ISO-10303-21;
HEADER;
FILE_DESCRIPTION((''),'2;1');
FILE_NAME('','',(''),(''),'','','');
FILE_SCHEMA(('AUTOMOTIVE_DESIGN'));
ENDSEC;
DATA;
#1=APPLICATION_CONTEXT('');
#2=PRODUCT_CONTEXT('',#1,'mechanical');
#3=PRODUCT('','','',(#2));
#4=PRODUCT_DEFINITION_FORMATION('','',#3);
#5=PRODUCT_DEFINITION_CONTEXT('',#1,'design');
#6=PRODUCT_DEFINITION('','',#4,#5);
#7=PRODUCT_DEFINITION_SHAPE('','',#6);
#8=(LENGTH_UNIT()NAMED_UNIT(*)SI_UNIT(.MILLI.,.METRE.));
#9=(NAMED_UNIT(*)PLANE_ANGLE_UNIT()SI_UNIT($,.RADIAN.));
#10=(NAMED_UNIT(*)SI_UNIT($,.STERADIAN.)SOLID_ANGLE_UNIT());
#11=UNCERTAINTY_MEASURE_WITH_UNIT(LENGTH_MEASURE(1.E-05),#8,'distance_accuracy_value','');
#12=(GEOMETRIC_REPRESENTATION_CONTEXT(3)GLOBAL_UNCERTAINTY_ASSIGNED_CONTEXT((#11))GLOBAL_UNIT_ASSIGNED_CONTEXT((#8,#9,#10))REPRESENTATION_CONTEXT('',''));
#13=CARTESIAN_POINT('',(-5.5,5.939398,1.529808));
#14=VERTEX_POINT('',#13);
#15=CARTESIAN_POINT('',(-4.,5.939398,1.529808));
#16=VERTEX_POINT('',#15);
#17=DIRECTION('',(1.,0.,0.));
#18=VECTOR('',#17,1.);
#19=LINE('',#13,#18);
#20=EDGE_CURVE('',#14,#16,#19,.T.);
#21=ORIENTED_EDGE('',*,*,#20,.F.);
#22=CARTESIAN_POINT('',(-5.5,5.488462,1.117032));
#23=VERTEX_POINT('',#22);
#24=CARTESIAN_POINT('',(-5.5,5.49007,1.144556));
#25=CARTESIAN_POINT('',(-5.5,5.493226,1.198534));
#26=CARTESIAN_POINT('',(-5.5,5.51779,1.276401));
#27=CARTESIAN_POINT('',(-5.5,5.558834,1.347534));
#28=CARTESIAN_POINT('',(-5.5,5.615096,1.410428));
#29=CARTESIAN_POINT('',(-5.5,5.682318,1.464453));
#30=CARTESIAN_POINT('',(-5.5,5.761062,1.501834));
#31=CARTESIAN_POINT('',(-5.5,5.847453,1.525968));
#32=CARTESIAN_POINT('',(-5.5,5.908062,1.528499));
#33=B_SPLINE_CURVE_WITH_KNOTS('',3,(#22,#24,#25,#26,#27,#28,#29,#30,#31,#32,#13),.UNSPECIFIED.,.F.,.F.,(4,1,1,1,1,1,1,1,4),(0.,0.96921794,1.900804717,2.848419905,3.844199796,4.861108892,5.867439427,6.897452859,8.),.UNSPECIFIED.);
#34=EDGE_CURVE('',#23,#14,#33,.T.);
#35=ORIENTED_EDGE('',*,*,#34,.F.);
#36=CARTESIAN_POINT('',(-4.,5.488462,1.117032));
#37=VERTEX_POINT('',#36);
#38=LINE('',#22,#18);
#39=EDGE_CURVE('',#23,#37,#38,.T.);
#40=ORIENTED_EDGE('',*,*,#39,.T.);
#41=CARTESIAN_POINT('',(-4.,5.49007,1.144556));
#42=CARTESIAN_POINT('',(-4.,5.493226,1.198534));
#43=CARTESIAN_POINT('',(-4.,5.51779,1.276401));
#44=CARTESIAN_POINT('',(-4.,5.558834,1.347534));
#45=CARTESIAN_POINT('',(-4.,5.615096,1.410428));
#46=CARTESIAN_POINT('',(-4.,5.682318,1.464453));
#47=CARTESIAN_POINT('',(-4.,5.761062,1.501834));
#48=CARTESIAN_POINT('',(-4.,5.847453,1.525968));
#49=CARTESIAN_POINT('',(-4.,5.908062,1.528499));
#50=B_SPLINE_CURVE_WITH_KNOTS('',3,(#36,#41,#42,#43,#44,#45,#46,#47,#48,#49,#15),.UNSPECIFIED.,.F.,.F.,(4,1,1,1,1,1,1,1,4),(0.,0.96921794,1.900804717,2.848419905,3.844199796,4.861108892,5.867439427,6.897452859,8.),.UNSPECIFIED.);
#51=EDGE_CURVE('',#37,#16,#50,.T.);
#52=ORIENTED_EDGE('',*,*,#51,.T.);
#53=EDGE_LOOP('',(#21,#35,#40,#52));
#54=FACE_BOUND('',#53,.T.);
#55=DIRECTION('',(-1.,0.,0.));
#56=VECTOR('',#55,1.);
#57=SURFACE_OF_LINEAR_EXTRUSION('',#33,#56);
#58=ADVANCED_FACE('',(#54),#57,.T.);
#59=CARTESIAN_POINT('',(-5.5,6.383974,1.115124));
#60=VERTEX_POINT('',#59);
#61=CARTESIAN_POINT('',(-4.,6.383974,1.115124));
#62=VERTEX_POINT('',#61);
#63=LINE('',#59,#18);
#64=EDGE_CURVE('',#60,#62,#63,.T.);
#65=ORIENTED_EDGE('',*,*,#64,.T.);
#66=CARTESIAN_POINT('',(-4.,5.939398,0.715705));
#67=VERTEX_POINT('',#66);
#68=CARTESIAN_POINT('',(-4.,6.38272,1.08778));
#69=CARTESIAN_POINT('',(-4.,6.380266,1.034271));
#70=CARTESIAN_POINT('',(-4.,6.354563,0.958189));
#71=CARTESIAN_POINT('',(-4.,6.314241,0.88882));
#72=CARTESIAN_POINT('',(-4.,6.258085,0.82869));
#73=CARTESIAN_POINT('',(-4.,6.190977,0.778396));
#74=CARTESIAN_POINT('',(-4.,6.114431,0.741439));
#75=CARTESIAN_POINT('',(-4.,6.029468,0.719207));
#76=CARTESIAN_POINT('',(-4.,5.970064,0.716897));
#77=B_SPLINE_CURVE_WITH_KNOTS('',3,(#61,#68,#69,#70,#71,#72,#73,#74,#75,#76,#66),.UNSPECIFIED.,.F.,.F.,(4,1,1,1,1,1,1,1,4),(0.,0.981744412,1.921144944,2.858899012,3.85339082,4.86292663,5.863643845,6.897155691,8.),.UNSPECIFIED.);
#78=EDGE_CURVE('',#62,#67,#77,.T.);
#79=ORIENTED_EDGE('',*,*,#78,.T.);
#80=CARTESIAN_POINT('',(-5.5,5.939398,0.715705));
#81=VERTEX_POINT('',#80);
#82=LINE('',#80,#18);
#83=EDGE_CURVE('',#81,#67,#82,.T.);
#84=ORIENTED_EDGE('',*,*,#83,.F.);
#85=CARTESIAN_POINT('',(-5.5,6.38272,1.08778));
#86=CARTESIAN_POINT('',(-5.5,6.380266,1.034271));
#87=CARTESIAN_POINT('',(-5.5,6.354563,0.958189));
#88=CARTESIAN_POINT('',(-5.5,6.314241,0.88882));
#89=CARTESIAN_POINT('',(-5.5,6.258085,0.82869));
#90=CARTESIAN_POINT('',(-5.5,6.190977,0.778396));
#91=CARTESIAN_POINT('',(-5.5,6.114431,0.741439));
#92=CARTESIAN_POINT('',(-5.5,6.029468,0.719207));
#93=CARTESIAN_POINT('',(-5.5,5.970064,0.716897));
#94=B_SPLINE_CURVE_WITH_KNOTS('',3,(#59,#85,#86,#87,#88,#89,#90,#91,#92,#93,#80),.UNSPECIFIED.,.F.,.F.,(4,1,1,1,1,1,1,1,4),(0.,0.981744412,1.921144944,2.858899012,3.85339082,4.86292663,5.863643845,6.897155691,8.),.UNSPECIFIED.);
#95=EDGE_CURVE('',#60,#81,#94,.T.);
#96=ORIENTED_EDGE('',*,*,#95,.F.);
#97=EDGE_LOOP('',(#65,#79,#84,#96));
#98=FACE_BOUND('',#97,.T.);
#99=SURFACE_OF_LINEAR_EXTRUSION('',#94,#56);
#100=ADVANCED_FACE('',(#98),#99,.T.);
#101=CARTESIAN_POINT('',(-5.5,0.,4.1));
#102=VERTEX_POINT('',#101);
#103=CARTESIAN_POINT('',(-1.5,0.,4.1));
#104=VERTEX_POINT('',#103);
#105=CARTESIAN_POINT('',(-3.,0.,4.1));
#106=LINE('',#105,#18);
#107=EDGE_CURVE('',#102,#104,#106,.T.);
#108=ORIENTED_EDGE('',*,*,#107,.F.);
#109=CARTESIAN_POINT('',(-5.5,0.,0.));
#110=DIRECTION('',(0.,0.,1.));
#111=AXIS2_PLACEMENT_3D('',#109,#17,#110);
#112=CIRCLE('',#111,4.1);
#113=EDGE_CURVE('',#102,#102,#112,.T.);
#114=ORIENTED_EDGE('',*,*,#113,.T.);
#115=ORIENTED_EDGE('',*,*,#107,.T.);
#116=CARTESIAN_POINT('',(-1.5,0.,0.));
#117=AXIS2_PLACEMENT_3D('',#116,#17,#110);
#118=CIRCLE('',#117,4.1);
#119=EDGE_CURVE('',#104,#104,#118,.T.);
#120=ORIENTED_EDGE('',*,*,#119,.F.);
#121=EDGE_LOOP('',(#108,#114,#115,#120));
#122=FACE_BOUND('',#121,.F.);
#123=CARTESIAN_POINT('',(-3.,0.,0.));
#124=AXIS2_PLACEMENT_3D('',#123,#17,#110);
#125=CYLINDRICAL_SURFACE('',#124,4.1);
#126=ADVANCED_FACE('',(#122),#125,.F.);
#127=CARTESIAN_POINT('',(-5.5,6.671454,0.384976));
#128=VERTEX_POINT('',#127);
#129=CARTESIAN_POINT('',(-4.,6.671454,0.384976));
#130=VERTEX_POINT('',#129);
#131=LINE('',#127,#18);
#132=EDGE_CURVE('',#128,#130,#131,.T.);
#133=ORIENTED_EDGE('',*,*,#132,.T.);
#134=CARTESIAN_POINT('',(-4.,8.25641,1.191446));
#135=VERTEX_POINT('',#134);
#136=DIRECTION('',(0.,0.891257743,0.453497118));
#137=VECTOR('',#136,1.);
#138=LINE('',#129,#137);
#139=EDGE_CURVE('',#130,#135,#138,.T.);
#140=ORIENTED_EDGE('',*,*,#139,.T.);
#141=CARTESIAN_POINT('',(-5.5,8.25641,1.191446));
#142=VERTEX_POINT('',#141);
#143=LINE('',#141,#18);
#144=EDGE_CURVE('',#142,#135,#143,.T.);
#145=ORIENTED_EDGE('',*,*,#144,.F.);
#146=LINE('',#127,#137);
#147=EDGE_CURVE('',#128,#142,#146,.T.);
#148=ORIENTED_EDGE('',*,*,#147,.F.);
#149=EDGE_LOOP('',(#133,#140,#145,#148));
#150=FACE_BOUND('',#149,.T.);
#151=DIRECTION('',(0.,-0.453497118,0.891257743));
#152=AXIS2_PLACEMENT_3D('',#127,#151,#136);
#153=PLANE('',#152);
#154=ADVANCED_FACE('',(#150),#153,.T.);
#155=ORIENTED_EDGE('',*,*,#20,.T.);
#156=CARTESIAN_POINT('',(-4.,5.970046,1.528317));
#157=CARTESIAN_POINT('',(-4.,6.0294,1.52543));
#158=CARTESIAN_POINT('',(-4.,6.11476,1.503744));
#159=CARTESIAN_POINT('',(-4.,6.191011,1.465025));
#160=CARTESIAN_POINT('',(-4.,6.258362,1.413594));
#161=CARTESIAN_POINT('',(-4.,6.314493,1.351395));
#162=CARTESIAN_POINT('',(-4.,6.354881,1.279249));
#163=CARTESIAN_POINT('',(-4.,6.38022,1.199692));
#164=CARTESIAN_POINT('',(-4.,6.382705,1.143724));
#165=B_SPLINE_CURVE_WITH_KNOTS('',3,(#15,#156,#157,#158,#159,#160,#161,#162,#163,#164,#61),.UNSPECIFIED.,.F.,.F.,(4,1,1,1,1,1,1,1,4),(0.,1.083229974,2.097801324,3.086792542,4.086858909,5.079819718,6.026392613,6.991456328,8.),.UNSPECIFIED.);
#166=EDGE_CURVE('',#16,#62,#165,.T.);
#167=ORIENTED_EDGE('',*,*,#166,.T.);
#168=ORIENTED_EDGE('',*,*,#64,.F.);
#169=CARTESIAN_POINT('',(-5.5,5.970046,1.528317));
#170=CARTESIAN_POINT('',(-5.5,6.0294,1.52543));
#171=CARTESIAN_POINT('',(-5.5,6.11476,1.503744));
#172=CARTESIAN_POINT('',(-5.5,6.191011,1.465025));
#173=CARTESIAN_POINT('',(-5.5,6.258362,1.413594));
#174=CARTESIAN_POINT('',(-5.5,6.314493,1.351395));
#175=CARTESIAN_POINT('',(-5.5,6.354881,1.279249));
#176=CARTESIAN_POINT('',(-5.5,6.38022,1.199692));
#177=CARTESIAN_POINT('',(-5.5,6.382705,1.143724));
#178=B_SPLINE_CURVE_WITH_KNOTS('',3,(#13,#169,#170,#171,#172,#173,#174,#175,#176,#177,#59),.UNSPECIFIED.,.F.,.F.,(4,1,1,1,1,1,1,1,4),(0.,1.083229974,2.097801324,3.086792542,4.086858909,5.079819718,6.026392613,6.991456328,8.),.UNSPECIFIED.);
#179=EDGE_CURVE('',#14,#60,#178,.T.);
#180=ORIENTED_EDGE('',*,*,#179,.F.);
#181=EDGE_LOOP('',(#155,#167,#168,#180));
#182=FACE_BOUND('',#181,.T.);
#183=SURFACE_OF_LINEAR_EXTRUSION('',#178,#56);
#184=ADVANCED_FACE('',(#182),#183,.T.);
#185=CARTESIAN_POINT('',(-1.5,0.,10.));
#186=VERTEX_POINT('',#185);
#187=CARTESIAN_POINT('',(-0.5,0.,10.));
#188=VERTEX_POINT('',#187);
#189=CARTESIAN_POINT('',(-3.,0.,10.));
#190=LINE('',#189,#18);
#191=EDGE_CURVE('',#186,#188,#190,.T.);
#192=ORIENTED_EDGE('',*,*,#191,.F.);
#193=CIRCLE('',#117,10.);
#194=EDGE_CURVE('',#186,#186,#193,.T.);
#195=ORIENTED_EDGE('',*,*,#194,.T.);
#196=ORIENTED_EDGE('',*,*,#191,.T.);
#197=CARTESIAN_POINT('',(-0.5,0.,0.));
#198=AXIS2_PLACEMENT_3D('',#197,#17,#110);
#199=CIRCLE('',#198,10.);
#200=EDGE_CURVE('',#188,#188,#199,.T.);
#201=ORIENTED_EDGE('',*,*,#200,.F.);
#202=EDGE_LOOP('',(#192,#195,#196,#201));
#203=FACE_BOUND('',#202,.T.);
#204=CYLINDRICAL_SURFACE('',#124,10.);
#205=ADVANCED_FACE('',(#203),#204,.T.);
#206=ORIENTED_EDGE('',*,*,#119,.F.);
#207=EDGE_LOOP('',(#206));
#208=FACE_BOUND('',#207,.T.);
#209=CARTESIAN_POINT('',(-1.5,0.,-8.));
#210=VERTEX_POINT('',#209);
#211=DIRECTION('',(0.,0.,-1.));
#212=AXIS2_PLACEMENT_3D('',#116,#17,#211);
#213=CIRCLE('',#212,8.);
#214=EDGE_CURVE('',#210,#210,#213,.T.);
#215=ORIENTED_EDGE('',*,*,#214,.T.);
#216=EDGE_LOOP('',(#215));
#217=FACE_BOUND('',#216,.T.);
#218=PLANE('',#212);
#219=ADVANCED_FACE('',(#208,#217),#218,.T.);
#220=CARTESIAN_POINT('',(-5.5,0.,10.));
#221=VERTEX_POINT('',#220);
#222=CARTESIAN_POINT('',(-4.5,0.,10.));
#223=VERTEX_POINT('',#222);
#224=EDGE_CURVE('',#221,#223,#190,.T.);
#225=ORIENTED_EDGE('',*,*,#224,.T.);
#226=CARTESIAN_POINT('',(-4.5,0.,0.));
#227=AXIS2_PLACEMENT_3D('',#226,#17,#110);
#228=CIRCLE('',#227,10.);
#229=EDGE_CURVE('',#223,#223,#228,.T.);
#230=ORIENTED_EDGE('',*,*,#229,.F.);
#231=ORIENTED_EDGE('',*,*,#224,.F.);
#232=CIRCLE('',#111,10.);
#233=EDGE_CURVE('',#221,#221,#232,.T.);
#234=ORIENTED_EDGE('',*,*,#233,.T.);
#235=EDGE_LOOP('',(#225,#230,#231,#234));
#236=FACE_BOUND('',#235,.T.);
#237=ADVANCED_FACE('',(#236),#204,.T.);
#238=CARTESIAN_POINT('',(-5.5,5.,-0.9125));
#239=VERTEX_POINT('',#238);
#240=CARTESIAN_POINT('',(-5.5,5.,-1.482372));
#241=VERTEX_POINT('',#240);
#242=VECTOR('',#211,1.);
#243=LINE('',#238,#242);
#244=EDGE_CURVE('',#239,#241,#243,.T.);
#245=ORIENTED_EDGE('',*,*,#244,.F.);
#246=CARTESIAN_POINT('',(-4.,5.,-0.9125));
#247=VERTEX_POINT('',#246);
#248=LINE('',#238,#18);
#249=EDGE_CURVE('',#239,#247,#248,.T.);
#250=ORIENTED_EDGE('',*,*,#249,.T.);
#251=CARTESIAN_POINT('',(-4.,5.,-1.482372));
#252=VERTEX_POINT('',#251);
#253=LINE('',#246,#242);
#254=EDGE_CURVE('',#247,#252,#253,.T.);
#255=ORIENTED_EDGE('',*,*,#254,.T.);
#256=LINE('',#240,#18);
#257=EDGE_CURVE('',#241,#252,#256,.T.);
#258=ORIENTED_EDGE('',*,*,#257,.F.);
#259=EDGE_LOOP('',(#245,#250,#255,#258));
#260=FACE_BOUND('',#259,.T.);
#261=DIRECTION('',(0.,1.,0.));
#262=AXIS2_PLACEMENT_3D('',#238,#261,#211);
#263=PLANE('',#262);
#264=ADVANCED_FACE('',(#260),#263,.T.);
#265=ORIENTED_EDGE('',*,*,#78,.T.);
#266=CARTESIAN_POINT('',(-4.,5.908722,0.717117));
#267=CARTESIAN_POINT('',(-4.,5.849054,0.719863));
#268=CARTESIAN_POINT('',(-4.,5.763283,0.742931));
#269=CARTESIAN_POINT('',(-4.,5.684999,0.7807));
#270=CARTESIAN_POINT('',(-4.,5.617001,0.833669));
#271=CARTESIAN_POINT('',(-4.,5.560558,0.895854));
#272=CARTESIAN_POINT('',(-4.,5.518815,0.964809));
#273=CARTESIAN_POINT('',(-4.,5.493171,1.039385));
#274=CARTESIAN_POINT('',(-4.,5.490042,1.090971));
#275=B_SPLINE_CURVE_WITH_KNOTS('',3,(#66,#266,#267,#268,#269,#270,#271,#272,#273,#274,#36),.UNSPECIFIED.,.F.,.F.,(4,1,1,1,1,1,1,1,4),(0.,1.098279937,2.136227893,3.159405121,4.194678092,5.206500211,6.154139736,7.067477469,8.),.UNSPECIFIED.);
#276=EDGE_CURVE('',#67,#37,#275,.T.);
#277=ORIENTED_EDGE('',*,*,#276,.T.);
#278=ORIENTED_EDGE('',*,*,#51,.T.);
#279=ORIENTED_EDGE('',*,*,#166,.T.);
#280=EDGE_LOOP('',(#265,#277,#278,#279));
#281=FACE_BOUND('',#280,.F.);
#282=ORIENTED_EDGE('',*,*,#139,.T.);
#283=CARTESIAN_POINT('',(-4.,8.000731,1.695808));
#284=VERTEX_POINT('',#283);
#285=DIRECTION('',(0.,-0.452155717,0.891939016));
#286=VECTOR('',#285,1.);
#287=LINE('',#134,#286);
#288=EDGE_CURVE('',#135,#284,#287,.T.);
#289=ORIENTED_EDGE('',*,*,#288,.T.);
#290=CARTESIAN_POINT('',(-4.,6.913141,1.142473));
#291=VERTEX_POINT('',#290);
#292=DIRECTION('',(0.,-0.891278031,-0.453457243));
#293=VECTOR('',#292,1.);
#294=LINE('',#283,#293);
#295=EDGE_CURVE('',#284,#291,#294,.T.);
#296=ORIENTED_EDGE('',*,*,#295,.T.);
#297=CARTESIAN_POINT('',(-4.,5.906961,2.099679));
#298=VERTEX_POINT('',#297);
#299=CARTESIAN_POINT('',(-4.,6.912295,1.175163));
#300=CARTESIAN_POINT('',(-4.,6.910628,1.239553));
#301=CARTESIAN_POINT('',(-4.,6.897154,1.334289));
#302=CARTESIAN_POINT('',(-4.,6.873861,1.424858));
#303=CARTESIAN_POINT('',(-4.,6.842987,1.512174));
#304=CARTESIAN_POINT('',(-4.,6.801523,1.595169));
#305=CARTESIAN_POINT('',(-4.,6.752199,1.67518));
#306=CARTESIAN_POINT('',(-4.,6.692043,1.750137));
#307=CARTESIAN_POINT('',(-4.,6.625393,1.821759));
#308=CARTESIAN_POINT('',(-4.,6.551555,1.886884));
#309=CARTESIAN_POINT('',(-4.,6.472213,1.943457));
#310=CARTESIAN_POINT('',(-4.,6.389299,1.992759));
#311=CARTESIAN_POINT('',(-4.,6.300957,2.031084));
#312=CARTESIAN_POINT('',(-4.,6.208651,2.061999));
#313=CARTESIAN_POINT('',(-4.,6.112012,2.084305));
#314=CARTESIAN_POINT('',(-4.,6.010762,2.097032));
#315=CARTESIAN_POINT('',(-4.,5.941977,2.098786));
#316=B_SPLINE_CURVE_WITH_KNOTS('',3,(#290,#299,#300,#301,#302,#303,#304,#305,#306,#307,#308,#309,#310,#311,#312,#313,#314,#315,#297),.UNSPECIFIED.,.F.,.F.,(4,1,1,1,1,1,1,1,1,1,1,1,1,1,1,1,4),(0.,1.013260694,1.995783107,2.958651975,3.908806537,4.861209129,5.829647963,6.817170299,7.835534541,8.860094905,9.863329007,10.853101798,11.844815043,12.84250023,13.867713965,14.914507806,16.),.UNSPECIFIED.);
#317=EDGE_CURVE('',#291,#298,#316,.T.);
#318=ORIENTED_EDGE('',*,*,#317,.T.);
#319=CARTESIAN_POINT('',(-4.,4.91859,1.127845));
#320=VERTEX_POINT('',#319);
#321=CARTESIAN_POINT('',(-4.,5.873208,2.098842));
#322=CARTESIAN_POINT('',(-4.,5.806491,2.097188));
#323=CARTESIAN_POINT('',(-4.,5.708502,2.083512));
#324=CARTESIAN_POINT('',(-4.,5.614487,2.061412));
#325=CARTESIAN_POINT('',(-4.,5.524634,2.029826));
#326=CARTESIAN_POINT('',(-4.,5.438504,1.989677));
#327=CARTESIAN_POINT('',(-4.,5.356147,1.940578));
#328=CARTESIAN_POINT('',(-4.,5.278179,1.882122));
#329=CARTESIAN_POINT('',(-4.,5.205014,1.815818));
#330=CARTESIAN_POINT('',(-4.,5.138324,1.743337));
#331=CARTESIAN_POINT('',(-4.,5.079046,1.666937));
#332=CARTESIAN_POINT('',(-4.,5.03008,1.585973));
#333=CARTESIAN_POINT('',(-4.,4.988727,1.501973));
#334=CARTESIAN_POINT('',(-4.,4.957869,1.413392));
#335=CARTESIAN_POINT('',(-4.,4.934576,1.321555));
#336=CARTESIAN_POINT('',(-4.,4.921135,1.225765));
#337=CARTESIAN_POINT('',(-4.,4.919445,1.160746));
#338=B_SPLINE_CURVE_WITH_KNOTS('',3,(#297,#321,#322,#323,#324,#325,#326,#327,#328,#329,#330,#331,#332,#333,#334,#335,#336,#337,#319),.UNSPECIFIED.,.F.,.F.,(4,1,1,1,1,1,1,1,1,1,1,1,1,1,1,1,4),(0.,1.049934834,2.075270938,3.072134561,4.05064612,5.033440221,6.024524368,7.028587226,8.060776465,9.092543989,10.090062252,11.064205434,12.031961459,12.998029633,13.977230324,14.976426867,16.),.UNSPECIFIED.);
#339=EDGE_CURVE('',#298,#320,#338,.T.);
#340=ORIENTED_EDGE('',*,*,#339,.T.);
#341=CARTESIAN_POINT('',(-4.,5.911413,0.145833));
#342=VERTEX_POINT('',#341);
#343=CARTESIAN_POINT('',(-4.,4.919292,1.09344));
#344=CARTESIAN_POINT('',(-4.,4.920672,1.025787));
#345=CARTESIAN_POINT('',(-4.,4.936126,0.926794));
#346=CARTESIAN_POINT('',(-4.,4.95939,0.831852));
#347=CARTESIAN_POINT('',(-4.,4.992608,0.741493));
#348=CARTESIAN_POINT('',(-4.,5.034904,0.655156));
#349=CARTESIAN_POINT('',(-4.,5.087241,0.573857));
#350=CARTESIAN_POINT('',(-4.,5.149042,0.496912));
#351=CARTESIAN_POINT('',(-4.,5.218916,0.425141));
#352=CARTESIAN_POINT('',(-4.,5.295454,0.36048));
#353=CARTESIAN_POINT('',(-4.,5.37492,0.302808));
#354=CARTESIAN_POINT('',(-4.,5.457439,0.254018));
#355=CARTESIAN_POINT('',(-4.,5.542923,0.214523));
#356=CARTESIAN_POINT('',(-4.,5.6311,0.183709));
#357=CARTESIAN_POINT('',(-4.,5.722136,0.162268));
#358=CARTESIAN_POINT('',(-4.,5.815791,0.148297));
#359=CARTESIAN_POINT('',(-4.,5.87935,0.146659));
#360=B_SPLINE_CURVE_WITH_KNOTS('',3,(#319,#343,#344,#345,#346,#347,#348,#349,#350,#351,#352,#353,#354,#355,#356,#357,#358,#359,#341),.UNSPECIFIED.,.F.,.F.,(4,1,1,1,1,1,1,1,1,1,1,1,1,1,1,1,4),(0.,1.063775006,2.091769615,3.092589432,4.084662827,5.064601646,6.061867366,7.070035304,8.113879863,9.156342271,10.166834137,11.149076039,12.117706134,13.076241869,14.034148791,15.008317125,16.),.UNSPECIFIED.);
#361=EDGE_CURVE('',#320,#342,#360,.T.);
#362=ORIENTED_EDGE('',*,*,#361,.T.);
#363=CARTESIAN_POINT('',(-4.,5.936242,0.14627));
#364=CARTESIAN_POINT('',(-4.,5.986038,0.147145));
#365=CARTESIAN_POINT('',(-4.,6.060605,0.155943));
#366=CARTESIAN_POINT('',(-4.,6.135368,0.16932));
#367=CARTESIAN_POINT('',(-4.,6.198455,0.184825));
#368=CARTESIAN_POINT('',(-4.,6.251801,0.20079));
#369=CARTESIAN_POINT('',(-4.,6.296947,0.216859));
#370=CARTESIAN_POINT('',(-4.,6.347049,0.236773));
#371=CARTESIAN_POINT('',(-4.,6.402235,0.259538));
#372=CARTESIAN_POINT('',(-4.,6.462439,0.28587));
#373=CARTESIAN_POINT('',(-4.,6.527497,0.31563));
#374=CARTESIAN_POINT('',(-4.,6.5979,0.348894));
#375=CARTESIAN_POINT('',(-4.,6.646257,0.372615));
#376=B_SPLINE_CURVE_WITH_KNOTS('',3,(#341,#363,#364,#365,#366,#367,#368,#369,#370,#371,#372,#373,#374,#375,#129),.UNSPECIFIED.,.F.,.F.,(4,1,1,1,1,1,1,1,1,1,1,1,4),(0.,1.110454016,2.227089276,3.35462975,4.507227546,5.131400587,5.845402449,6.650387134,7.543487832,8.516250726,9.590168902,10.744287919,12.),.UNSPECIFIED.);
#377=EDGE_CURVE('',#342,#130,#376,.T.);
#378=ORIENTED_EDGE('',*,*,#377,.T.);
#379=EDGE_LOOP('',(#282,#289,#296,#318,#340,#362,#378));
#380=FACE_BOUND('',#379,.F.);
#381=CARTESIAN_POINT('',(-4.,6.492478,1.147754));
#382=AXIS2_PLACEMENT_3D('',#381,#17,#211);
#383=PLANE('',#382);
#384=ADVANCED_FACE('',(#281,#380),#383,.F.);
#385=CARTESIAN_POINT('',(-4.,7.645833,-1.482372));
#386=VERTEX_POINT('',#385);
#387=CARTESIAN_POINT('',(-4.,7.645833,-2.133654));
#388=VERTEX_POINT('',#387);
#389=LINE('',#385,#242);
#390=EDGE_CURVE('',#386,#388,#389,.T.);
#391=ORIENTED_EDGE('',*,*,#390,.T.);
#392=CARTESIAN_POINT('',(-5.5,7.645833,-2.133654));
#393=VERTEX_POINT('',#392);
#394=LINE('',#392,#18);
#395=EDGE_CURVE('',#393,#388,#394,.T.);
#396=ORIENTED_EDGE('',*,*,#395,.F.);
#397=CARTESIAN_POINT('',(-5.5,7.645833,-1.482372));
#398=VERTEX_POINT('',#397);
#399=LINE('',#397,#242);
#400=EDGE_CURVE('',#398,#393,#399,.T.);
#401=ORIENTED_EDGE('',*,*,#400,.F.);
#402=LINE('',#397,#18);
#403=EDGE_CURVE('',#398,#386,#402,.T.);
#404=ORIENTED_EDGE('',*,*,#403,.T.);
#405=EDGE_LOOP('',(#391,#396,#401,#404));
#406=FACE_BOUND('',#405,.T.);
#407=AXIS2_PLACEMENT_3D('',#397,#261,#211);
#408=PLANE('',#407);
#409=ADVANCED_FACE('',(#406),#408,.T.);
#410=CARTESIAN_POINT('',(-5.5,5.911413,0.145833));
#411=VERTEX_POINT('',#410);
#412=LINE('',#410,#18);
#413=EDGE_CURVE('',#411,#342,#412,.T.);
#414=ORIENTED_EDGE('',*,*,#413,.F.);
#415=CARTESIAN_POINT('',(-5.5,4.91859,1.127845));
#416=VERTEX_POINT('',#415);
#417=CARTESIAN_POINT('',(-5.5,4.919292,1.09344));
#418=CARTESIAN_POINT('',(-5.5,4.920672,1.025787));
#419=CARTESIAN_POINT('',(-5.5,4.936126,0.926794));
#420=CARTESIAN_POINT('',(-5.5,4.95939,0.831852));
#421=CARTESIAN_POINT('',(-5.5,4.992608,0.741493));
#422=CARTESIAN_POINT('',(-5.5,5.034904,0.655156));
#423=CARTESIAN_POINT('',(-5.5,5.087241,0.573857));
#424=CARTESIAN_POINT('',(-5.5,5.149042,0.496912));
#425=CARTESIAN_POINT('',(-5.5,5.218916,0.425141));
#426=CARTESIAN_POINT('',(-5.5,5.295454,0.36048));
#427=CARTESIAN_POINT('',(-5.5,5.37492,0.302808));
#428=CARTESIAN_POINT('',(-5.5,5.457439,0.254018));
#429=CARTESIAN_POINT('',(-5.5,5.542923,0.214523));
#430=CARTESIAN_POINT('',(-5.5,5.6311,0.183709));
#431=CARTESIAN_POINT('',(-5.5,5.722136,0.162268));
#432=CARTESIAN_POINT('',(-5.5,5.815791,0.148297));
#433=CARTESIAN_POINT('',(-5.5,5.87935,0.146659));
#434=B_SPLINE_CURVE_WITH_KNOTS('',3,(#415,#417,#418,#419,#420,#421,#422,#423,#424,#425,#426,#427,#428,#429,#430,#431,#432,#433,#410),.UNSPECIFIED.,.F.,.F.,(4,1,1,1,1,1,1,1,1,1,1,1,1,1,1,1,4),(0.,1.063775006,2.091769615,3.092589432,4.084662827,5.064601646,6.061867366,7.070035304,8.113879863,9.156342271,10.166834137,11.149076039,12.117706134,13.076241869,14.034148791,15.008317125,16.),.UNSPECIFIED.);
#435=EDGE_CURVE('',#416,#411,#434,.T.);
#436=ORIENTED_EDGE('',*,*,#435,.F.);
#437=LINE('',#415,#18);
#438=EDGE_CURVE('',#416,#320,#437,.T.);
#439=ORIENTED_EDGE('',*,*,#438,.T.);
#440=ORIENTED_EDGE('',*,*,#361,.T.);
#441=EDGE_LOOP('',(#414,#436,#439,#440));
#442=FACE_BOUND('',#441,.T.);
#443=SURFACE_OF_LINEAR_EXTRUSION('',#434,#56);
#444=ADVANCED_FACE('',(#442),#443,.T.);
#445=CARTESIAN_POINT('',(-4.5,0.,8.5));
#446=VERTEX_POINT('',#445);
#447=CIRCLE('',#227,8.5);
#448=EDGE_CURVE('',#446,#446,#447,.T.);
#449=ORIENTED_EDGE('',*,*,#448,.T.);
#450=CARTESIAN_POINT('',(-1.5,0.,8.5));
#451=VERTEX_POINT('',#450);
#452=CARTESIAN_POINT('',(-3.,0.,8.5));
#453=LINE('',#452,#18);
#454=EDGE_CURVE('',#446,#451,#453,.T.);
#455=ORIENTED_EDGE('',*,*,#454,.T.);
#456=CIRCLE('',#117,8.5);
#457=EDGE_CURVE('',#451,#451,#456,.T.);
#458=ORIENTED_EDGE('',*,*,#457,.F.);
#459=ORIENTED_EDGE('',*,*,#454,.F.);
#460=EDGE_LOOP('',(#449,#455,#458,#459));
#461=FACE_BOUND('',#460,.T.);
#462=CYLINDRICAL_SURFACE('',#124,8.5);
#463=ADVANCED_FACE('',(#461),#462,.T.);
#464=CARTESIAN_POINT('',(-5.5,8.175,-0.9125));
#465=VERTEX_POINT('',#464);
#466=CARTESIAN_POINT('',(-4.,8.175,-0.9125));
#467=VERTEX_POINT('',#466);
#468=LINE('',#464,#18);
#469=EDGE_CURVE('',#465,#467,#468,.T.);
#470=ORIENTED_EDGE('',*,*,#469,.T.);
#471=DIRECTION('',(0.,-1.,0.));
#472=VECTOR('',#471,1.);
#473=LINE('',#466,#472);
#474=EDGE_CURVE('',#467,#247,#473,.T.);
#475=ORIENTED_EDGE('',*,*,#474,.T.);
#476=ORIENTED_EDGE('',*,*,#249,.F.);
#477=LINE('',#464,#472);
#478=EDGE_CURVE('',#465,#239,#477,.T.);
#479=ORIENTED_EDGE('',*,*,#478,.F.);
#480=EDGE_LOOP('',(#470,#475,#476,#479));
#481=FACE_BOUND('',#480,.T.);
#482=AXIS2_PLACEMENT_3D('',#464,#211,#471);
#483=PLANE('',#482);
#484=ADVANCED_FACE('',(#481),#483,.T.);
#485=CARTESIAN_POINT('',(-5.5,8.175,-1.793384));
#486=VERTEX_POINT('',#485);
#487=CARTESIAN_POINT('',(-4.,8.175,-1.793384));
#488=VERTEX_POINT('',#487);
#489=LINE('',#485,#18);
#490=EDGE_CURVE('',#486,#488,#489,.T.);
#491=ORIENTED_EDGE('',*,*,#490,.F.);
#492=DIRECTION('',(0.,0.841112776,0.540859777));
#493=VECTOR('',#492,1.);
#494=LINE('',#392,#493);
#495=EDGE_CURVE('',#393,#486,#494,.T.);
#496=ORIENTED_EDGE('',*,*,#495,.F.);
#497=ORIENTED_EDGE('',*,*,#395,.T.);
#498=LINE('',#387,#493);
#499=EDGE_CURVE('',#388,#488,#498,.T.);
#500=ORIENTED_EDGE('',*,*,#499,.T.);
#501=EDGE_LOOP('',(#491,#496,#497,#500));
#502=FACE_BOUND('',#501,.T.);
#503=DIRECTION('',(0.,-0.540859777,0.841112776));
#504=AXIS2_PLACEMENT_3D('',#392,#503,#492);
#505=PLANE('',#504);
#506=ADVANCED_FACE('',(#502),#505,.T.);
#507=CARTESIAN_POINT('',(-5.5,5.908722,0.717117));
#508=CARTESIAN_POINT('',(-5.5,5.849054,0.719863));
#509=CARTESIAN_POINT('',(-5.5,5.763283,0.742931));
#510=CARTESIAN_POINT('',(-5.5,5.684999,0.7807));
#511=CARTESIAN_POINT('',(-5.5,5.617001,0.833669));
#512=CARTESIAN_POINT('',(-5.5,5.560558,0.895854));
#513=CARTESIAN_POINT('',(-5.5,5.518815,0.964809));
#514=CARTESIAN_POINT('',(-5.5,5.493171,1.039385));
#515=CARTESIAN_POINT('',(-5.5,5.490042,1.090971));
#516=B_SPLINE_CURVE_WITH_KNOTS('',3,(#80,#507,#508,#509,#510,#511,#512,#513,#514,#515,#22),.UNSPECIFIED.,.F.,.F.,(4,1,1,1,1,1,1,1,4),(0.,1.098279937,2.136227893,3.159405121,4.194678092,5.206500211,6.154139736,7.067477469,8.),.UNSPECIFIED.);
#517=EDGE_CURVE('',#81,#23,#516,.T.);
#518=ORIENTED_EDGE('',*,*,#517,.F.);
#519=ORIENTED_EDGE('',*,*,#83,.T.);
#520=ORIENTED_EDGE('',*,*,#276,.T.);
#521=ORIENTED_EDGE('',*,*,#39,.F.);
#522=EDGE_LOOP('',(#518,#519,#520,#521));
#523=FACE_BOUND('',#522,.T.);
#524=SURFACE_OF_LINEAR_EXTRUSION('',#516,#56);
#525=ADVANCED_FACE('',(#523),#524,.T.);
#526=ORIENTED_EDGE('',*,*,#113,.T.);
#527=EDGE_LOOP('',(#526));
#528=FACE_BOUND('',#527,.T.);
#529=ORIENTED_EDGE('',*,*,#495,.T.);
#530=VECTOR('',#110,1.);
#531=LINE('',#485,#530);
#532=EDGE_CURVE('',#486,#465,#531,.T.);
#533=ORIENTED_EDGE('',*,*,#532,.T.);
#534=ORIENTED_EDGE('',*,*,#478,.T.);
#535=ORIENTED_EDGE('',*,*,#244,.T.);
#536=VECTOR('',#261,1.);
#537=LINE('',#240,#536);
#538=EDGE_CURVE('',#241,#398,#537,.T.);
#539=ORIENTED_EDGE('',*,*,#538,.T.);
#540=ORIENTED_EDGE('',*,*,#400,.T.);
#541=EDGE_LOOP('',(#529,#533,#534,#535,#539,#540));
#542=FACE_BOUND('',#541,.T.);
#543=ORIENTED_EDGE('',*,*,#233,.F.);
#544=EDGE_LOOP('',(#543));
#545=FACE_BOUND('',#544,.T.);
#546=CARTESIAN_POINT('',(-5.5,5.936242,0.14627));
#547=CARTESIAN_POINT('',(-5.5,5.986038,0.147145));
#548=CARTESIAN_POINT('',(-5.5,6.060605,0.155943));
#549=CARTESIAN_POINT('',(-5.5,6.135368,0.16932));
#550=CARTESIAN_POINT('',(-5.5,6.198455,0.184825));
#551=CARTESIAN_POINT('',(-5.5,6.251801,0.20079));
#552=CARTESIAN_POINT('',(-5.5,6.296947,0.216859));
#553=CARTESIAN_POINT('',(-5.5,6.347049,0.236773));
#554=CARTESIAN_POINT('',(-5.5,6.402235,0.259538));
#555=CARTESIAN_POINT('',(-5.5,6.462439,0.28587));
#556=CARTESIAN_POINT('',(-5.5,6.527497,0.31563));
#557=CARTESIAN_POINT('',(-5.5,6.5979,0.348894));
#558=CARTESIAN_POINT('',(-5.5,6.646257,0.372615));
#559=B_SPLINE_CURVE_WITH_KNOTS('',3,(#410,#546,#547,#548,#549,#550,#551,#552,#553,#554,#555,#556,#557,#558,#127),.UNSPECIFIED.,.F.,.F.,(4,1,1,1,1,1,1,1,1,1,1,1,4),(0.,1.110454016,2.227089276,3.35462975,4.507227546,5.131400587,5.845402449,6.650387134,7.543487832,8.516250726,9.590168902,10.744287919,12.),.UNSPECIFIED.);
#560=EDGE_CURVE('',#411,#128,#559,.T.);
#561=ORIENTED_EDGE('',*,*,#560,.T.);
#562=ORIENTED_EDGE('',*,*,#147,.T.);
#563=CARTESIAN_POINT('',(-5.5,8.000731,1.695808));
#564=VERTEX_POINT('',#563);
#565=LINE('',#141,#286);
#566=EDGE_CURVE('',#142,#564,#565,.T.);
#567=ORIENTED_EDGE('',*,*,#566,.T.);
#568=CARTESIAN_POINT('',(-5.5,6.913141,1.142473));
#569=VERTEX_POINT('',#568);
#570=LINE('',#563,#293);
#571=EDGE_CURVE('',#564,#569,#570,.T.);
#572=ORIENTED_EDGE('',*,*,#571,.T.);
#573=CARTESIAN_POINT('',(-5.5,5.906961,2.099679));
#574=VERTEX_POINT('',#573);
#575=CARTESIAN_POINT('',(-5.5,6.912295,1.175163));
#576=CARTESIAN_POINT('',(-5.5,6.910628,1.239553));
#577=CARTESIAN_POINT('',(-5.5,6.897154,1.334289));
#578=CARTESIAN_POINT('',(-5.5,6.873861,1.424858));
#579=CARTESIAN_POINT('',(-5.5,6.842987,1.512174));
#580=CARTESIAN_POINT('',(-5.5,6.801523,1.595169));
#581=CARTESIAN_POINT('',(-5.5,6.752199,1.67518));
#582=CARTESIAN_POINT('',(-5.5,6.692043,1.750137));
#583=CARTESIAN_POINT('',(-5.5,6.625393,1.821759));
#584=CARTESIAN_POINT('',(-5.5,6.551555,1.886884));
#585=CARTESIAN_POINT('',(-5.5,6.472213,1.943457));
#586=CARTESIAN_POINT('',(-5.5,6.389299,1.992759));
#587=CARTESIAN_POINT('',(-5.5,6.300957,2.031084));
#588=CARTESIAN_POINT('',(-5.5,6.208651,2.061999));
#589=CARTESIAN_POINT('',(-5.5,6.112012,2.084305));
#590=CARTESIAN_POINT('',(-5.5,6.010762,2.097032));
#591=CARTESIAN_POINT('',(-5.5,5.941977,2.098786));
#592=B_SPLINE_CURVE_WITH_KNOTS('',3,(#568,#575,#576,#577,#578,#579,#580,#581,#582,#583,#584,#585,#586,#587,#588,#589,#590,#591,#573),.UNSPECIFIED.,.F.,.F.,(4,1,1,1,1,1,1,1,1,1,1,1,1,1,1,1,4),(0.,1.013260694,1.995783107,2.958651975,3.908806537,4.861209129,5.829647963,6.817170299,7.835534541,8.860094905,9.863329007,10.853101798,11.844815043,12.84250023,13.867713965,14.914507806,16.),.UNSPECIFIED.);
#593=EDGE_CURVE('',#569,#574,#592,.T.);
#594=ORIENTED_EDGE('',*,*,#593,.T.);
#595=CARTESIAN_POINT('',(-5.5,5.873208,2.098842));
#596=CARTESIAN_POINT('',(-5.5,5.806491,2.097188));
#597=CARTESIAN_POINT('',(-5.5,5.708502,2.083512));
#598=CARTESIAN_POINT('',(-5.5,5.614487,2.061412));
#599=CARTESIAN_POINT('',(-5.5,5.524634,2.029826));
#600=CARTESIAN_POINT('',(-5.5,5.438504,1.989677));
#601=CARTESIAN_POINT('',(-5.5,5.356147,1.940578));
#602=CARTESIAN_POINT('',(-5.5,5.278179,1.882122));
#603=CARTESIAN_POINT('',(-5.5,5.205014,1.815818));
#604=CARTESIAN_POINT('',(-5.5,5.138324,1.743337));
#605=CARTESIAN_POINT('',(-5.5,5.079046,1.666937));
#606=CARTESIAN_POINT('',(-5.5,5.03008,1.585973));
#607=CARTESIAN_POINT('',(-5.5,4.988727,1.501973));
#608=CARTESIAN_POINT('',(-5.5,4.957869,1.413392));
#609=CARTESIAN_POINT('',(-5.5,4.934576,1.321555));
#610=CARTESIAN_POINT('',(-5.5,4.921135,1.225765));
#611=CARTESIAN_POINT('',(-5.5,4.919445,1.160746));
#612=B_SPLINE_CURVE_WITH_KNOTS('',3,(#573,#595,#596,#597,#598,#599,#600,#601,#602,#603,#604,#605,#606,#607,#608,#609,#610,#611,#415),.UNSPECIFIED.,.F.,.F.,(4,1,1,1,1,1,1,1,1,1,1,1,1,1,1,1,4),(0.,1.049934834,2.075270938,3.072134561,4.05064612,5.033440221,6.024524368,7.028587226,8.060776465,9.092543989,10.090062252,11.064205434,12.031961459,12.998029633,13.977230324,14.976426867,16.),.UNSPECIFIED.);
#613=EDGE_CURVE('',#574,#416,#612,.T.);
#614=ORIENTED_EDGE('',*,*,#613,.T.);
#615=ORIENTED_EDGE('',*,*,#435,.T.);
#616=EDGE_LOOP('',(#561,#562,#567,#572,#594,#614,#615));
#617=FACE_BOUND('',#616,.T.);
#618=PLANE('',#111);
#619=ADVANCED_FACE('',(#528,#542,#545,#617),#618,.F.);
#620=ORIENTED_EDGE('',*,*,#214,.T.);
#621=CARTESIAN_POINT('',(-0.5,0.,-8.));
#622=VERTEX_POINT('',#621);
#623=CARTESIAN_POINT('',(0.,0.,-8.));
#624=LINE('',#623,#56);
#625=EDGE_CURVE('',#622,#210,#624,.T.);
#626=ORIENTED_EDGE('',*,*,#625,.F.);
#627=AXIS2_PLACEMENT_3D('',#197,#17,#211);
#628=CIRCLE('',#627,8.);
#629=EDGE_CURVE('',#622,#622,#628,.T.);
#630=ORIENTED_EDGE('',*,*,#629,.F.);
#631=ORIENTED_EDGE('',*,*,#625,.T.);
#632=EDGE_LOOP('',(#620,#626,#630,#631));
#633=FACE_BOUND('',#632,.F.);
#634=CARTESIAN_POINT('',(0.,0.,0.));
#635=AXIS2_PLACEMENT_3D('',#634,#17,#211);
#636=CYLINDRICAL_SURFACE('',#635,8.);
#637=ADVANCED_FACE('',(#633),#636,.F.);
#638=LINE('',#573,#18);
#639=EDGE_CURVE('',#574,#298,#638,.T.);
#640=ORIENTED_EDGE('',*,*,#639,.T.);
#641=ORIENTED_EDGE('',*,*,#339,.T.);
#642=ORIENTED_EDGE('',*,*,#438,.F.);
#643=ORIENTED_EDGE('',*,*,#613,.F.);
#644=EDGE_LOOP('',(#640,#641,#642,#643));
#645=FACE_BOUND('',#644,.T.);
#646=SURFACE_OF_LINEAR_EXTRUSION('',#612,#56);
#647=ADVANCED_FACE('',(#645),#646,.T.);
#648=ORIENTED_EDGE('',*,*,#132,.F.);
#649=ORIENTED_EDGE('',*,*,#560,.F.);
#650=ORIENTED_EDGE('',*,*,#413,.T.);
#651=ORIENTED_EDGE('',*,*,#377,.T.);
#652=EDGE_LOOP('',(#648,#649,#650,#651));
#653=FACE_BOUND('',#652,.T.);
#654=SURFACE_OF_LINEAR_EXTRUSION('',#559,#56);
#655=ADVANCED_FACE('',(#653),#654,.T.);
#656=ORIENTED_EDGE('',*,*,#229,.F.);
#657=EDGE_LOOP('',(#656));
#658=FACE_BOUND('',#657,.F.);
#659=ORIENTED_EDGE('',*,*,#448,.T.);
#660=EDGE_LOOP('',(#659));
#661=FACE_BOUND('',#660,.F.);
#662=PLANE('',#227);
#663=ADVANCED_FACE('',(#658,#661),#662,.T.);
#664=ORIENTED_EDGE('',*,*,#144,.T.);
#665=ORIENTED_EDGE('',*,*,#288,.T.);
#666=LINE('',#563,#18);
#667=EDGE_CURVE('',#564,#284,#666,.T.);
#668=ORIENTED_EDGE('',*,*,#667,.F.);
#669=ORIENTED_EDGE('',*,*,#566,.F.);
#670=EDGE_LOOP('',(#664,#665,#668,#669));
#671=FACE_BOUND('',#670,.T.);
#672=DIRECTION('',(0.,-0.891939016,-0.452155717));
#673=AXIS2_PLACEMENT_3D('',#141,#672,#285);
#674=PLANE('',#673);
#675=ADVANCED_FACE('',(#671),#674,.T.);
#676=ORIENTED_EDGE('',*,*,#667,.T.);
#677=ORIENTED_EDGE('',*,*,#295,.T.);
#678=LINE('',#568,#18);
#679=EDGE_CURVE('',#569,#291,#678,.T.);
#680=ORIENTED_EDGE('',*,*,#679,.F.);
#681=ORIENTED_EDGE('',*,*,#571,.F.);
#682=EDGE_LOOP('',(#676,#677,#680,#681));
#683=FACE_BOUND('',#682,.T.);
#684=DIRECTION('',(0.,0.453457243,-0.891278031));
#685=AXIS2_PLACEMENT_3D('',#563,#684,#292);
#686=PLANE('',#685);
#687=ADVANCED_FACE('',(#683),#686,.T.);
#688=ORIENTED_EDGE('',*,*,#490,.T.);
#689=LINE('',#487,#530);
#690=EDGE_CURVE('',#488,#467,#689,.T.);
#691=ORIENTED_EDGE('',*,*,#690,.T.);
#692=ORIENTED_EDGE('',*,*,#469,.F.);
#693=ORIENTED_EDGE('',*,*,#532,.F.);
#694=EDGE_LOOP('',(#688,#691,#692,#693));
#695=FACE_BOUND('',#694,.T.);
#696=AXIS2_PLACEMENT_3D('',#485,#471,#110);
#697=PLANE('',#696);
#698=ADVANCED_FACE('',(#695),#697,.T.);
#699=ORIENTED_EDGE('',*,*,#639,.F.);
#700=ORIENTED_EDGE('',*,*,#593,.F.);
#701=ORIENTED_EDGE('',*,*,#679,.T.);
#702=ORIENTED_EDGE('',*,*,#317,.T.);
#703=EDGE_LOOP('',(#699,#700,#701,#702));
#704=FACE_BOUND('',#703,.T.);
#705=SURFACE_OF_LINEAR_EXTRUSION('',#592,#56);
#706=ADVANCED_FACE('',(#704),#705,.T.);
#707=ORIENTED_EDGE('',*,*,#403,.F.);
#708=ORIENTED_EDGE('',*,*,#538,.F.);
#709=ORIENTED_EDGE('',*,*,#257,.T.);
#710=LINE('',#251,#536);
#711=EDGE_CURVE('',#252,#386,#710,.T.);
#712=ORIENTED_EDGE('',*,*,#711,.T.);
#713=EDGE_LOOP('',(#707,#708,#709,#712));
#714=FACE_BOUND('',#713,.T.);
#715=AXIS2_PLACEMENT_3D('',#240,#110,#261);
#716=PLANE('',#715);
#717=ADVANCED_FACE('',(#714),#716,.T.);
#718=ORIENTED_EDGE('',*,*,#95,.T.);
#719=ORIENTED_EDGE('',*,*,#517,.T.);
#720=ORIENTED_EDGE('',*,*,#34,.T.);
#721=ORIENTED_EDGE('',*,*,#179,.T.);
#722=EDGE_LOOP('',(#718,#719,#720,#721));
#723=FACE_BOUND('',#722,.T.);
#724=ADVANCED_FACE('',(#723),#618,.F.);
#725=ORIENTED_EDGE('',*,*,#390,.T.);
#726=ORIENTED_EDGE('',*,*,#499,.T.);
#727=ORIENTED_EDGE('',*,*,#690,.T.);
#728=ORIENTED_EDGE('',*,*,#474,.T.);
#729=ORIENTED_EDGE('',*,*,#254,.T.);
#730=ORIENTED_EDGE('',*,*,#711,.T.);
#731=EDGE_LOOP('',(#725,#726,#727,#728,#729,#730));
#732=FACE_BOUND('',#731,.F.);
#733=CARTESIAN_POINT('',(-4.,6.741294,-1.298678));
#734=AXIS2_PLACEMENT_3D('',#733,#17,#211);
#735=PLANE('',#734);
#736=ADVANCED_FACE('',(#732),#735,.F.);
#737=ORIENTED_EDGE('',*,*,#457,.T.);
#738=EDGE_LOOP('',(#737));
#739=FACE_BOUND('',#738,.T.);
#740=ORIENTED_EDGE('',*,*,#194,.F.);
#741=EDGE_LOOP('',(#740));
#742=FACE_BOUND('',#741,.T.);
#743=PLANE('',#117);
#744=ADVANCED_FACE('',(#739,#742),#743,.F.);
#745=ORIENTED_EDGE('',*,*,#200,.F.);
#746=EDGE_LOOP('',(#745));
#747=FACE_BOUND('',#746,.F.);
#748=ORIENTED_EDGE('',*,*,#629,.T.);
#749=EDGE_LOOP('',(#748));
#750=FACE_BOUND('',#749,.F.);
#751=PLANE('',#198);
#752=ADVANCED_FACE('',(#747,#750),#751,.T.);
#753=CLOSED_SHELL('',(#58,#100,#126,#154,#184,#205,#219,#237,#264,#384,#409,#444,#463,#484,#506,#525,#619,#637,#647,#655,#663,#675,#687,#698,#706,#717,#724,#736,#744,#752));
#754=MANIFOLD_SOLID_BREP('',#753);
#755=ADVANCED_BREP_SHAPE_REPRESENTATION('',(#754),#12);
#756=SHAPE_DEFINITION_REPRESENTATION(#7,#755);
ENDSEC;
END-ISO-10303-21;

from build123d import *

# Parameters (mm, degrees)
SKETCH1_W          = 5
SKETCH1_H          = 5.9
SKETCH2_W          = 3
SKETCH2_H          = 1.5
SKETCH3_R          = 8
CUT_EXTRUDE1_DEPTH = 1.5
CUT_EXTRUDE2_DEPTH = 1.5


with BuildPart() as part:
    # Sketch1 → Revolve1 (revolve)
    with BuildSketch(Plane.XY, mode=Mode.PRIVATE) as revolve1_sk:
        with Locations((-3, 7.05)):
            Rectangle(SKETCH1_W, SKETCH1_H)
    revolve(revolve1_sk.sketch.rotate(Axis((0, 0, 0), (1, 0, 0)), 90), axis=Axis((0, 0, 0), (1, 0, 0)))

    # Sketch2 → Cut-Revolve1 (revolve, cut)
    with BuildSketch(Plane.XY, mode=Mode.PRIVATE) as cut_revolve1_sk:
        with Locations((-3, 9.25)):
            Rectangle(SKETCH2_W, SKETCH2_H)
    revolve(cut_revolve1_sk.sketch.rotate(Axis((0, 0, 0), (1, 0, 0)), 90), axis=Axis((0, 0, 0), (1, 0, 0)), mode=Mode.SUBTRACT)

    # Sketch3 → Cut-Extrude1 (cut)
    with BuildSketch(Plane(origin=(0, 0, 0), x_dir=(0, 0, -1), z_dir=(1, 0, 0))):
        Circle(SKETCH3_R)
    extrude(amount=-CUT_EXTRUDE1_DEPTH, mode=Mode.SUBTRACT)

    # Sketch5 → Cut-Extrude2 (cut)
    # profile 1 of 2: a face of its own
    with BuildSketch(Plane.ZY.offset(5.5)):
        Polygon((-1.793384415, 8.175), (-0.9125, 8.175), (-0.9125, 5), (-1.482371795, 5), (-1.482371795, 7.645833333), (-2.133653846, 7.645833333), align=None)
    # profile 2 of 2: a face of its own
    with BuildSketch(Plane.ZY.offset(5.5)):
        with BuildLine():
            Line((1.191446314, 8.256410256), (1.695808293, 8.00073117))
            Line((1.695808293, 8.00073117), (1.142472957, 6.913141026))
            add(Edge.make_bspline(
                [(1.142472957, 6.913141026), (1.175163489, 6.912294651), (1.239552854, 6.910627578), (1.334288739, 6.897154014), (1.424858008, 6.873861453), (1.512173869, 6.842987227), (1.595168965, 6.801522834), (1.675179981, 6.752198775), (1.750136991, 6.69204278), (1.821758695, 6.62539313), (1.886883941, 6.551554895), (1.943456732, 6.472213367), (1.99275892, 6.389298934), (2.031084458, 6.300956598), (2.061999112, 6.208650736), (2.084305396, 6.11201236), (2.097031755, 6.010761626), (2.098786295, 5.941977417), (2.099679487, 5.906961138)],
                knots=[0, 0, 0, 0, 1.013260694, 1.995783107, 2.958651975, 3.908806537, 4.861209129, 5.829647963, 6.817170299, 7.835534541, 8.860094905, 9.863329007, 10.853101798, 11.844815043, 12.84250023, 13.867713965, 14.914507806, 16, 16, 16, 16], degree=3))
            add(Edge.make_bspline(
                [(2.099679487, 5.906961138), (2.098842493, 5.873207569), (2.097188113, 5.806491238), (2.083512477, 5.708501914), (2.06141193, 5.614486889), (2.02982581, 5.524633922), (1.989677297, 5.438503809), (1.940578386, 5.356147091), (1.882121896, 5.278179194), (1.81581818, 5.205014401), (1.743336781, 5.138324152), (1.666937439, 5.079045977), (1.585972755, 5.030079955), (1.501973056, 4.988727002), (1.413391857, 4.957868741), (1.32155478, 4.934576099), (1.225765397, 4.921135234), (1.160746018, 4.91944503), (1.127844551, 4.918589744)],
                knots=[0, 0, 0, 0, 1.049934834, 2.075270938, 3.072134561, 4.05064612, 5.033440221, 6.024524368, 7.028587226, 8.060776465, 9.092543989, 10.090062252, 11.064205434, 12.031961459, 12.998029633, 13.977230324, 14.976426867, 16, 16, 16, 16], degree=3))
            add(Edge.make_bspline(
                [(1.127844551, 4.918589744), (1.093439615, 4.919291632), (1.025786964, 4.9206718), (0.926794204, 4.936126046), (0.831851626, 4.959390259), (0.741492825, 4.992607602), (0.655155886, 5.034903587), (0.57385727, 5.087240616), (0.496912148, 5.149041549), (0.42514087, 5.218915965), (0.360480297, 5.295453826), (0.302808469, 5.374920054), (0.254018029, 5.457439347), (0.214523305, 5.542923478), (0.183708605, 5.631100047), (0.162267859, 5.722136406), (0.148297235, 5.81579108), (0.146659497, 5.879350442), (0.145833333, 5.911413261)],
                knots=[0, 0, 0, 0, 1.063775006, 2.091769615, 3.092589432, 4.084662827, 5.064601646, 6.061867366, 7.070035304, 8.113879863, 9.156342271, 10.166834137, 11.149076039, 12.117706134, 13.076241869, 14.034148791, 15.008317125, 16, 16, 16, 16], degree=3))
            add(Edge.make_bspline(
                [(0.145833333, 5.911413261), (0.146269862, 5.936242164), (0.14714535, 5.986038176), (0.155943478, 6.060604999), (0.169319723, 6.135367552), (0.184824543, 6.198454562), (0.20078984, 6.251801232), (0.216859033, 6.296947076), (0.236773258, 6.347049092), (0.259538168, 6.40223522), (0.285869634, 6.462439071), (0.315630108, 6.527496544), (0.348893678, 6.597900304), (0.372615185, 6.646256786), (0.384975962, 6.671454327)],
                knots=[0, 0, 0, 0, 1.110454016, 2.227089276, 3.35462975, 4.507227546, 5.131400587, 5.845402449, 6.650387134, 7.543487832, 8.516250726, 9.590168902, 10.744287919, 12, 12, 12, 12], degree=3))
            Line((0.384975962, 6.671454327), (1.191446314, 8.256410256))
        make_face()
        with BuildLine():
            add(Edge.make_bspline(
                [(1.115124199, 6.383974359), (1.087780016, 6.382720139), (1.034271038, 6.380265795), (0.958189275, 6.354562713), (0.888819969, 6.314240974), (0.828689797, 6.258085155), (0.77839644, 6.190976745), (0.741439117, 6.114430641), (0.719207234, 6.029468327), (0.716897483, 5.970064094), (0.715705128, 5.939398037)],
                knots=[0, 0, 0, 0, 0.981744412, 1.921144944, 2.858899012, 3.85339082, 4.86292663, 5.863643845, 6.897155691, 8, 8, 8, 8], degree=3))
            add(Edge.make_bspline(
                [(0.715705128, 5.939398037), (0.717116914, 5.908721768), (0.719862931, 5.849054373), (0.742930763, 5.763283067), (0.780699961, 5.684998689), (0.833668853, 5.617000948), (0.895853571, 5.560557558), (0.964809047, 5.518814972), (1.039385079, 5.493171132), (1.090971142, 5.490042243), (1.117032252, 5.488461538)],
                knots=[0, 0, 0, 0, 1.098279937, 2.136227893, 3.159405121, 4.194678092, 5.206500211, 6.154139736, 7.067477469, 8, 8, 8, 8], degree=3))
            add(Edge.make_bspline(
                [(1.117032252, 5.488461538), (1.144555729, 5.490070396), (1.198534047, 5.493225646), (1.276401312, 5.51779044), (1.347533526, 5.558833701), (1.410428162, 5.615096382), (1.464453459, 5.682318178), (1.501833508, 5.761062388), (1.525967776, 5.847452761), (1.528499022, 5.908062449), (1.529807692, 5.939398037)],
                knots=[0, 0, 0, 0, 0.96921794, 1.900804717, 2.848419905, 3.844199796, 4.861108892, 5.867439427, 6.897452859, 8, 8, 8, 8], degree=3))
            add(Edge.make_bspline(
                [(1.529807692, 5.939398037), (1.528316878, 5.970046189), (1.525429742, 6.029399913), (1.503743929, 6.114760256), (1.465025374, 6.191011323), (1.41359409, 6.258362168), (1.351394556, 6.314492947), (1.279248949, 6.354880703), (1.199691644, 6.380220258), (1.143724347, 6.382704747), (1.115124199, 6.383974359)],
                knots=[0, 0, 0, 0, 1.083229974, 2.097801324, 3.086792542, 4.086858909, 5.079819718, 6.026392613, 6.991456328, 8, 8, 8, 8], degree=3))
        make_face(mode=Mode.SUBTRACT)
    extrude(amount=-CUT_EXTRUDE2_DEPTH, mode=Mode.SUBTRACT)


solid = part.part
